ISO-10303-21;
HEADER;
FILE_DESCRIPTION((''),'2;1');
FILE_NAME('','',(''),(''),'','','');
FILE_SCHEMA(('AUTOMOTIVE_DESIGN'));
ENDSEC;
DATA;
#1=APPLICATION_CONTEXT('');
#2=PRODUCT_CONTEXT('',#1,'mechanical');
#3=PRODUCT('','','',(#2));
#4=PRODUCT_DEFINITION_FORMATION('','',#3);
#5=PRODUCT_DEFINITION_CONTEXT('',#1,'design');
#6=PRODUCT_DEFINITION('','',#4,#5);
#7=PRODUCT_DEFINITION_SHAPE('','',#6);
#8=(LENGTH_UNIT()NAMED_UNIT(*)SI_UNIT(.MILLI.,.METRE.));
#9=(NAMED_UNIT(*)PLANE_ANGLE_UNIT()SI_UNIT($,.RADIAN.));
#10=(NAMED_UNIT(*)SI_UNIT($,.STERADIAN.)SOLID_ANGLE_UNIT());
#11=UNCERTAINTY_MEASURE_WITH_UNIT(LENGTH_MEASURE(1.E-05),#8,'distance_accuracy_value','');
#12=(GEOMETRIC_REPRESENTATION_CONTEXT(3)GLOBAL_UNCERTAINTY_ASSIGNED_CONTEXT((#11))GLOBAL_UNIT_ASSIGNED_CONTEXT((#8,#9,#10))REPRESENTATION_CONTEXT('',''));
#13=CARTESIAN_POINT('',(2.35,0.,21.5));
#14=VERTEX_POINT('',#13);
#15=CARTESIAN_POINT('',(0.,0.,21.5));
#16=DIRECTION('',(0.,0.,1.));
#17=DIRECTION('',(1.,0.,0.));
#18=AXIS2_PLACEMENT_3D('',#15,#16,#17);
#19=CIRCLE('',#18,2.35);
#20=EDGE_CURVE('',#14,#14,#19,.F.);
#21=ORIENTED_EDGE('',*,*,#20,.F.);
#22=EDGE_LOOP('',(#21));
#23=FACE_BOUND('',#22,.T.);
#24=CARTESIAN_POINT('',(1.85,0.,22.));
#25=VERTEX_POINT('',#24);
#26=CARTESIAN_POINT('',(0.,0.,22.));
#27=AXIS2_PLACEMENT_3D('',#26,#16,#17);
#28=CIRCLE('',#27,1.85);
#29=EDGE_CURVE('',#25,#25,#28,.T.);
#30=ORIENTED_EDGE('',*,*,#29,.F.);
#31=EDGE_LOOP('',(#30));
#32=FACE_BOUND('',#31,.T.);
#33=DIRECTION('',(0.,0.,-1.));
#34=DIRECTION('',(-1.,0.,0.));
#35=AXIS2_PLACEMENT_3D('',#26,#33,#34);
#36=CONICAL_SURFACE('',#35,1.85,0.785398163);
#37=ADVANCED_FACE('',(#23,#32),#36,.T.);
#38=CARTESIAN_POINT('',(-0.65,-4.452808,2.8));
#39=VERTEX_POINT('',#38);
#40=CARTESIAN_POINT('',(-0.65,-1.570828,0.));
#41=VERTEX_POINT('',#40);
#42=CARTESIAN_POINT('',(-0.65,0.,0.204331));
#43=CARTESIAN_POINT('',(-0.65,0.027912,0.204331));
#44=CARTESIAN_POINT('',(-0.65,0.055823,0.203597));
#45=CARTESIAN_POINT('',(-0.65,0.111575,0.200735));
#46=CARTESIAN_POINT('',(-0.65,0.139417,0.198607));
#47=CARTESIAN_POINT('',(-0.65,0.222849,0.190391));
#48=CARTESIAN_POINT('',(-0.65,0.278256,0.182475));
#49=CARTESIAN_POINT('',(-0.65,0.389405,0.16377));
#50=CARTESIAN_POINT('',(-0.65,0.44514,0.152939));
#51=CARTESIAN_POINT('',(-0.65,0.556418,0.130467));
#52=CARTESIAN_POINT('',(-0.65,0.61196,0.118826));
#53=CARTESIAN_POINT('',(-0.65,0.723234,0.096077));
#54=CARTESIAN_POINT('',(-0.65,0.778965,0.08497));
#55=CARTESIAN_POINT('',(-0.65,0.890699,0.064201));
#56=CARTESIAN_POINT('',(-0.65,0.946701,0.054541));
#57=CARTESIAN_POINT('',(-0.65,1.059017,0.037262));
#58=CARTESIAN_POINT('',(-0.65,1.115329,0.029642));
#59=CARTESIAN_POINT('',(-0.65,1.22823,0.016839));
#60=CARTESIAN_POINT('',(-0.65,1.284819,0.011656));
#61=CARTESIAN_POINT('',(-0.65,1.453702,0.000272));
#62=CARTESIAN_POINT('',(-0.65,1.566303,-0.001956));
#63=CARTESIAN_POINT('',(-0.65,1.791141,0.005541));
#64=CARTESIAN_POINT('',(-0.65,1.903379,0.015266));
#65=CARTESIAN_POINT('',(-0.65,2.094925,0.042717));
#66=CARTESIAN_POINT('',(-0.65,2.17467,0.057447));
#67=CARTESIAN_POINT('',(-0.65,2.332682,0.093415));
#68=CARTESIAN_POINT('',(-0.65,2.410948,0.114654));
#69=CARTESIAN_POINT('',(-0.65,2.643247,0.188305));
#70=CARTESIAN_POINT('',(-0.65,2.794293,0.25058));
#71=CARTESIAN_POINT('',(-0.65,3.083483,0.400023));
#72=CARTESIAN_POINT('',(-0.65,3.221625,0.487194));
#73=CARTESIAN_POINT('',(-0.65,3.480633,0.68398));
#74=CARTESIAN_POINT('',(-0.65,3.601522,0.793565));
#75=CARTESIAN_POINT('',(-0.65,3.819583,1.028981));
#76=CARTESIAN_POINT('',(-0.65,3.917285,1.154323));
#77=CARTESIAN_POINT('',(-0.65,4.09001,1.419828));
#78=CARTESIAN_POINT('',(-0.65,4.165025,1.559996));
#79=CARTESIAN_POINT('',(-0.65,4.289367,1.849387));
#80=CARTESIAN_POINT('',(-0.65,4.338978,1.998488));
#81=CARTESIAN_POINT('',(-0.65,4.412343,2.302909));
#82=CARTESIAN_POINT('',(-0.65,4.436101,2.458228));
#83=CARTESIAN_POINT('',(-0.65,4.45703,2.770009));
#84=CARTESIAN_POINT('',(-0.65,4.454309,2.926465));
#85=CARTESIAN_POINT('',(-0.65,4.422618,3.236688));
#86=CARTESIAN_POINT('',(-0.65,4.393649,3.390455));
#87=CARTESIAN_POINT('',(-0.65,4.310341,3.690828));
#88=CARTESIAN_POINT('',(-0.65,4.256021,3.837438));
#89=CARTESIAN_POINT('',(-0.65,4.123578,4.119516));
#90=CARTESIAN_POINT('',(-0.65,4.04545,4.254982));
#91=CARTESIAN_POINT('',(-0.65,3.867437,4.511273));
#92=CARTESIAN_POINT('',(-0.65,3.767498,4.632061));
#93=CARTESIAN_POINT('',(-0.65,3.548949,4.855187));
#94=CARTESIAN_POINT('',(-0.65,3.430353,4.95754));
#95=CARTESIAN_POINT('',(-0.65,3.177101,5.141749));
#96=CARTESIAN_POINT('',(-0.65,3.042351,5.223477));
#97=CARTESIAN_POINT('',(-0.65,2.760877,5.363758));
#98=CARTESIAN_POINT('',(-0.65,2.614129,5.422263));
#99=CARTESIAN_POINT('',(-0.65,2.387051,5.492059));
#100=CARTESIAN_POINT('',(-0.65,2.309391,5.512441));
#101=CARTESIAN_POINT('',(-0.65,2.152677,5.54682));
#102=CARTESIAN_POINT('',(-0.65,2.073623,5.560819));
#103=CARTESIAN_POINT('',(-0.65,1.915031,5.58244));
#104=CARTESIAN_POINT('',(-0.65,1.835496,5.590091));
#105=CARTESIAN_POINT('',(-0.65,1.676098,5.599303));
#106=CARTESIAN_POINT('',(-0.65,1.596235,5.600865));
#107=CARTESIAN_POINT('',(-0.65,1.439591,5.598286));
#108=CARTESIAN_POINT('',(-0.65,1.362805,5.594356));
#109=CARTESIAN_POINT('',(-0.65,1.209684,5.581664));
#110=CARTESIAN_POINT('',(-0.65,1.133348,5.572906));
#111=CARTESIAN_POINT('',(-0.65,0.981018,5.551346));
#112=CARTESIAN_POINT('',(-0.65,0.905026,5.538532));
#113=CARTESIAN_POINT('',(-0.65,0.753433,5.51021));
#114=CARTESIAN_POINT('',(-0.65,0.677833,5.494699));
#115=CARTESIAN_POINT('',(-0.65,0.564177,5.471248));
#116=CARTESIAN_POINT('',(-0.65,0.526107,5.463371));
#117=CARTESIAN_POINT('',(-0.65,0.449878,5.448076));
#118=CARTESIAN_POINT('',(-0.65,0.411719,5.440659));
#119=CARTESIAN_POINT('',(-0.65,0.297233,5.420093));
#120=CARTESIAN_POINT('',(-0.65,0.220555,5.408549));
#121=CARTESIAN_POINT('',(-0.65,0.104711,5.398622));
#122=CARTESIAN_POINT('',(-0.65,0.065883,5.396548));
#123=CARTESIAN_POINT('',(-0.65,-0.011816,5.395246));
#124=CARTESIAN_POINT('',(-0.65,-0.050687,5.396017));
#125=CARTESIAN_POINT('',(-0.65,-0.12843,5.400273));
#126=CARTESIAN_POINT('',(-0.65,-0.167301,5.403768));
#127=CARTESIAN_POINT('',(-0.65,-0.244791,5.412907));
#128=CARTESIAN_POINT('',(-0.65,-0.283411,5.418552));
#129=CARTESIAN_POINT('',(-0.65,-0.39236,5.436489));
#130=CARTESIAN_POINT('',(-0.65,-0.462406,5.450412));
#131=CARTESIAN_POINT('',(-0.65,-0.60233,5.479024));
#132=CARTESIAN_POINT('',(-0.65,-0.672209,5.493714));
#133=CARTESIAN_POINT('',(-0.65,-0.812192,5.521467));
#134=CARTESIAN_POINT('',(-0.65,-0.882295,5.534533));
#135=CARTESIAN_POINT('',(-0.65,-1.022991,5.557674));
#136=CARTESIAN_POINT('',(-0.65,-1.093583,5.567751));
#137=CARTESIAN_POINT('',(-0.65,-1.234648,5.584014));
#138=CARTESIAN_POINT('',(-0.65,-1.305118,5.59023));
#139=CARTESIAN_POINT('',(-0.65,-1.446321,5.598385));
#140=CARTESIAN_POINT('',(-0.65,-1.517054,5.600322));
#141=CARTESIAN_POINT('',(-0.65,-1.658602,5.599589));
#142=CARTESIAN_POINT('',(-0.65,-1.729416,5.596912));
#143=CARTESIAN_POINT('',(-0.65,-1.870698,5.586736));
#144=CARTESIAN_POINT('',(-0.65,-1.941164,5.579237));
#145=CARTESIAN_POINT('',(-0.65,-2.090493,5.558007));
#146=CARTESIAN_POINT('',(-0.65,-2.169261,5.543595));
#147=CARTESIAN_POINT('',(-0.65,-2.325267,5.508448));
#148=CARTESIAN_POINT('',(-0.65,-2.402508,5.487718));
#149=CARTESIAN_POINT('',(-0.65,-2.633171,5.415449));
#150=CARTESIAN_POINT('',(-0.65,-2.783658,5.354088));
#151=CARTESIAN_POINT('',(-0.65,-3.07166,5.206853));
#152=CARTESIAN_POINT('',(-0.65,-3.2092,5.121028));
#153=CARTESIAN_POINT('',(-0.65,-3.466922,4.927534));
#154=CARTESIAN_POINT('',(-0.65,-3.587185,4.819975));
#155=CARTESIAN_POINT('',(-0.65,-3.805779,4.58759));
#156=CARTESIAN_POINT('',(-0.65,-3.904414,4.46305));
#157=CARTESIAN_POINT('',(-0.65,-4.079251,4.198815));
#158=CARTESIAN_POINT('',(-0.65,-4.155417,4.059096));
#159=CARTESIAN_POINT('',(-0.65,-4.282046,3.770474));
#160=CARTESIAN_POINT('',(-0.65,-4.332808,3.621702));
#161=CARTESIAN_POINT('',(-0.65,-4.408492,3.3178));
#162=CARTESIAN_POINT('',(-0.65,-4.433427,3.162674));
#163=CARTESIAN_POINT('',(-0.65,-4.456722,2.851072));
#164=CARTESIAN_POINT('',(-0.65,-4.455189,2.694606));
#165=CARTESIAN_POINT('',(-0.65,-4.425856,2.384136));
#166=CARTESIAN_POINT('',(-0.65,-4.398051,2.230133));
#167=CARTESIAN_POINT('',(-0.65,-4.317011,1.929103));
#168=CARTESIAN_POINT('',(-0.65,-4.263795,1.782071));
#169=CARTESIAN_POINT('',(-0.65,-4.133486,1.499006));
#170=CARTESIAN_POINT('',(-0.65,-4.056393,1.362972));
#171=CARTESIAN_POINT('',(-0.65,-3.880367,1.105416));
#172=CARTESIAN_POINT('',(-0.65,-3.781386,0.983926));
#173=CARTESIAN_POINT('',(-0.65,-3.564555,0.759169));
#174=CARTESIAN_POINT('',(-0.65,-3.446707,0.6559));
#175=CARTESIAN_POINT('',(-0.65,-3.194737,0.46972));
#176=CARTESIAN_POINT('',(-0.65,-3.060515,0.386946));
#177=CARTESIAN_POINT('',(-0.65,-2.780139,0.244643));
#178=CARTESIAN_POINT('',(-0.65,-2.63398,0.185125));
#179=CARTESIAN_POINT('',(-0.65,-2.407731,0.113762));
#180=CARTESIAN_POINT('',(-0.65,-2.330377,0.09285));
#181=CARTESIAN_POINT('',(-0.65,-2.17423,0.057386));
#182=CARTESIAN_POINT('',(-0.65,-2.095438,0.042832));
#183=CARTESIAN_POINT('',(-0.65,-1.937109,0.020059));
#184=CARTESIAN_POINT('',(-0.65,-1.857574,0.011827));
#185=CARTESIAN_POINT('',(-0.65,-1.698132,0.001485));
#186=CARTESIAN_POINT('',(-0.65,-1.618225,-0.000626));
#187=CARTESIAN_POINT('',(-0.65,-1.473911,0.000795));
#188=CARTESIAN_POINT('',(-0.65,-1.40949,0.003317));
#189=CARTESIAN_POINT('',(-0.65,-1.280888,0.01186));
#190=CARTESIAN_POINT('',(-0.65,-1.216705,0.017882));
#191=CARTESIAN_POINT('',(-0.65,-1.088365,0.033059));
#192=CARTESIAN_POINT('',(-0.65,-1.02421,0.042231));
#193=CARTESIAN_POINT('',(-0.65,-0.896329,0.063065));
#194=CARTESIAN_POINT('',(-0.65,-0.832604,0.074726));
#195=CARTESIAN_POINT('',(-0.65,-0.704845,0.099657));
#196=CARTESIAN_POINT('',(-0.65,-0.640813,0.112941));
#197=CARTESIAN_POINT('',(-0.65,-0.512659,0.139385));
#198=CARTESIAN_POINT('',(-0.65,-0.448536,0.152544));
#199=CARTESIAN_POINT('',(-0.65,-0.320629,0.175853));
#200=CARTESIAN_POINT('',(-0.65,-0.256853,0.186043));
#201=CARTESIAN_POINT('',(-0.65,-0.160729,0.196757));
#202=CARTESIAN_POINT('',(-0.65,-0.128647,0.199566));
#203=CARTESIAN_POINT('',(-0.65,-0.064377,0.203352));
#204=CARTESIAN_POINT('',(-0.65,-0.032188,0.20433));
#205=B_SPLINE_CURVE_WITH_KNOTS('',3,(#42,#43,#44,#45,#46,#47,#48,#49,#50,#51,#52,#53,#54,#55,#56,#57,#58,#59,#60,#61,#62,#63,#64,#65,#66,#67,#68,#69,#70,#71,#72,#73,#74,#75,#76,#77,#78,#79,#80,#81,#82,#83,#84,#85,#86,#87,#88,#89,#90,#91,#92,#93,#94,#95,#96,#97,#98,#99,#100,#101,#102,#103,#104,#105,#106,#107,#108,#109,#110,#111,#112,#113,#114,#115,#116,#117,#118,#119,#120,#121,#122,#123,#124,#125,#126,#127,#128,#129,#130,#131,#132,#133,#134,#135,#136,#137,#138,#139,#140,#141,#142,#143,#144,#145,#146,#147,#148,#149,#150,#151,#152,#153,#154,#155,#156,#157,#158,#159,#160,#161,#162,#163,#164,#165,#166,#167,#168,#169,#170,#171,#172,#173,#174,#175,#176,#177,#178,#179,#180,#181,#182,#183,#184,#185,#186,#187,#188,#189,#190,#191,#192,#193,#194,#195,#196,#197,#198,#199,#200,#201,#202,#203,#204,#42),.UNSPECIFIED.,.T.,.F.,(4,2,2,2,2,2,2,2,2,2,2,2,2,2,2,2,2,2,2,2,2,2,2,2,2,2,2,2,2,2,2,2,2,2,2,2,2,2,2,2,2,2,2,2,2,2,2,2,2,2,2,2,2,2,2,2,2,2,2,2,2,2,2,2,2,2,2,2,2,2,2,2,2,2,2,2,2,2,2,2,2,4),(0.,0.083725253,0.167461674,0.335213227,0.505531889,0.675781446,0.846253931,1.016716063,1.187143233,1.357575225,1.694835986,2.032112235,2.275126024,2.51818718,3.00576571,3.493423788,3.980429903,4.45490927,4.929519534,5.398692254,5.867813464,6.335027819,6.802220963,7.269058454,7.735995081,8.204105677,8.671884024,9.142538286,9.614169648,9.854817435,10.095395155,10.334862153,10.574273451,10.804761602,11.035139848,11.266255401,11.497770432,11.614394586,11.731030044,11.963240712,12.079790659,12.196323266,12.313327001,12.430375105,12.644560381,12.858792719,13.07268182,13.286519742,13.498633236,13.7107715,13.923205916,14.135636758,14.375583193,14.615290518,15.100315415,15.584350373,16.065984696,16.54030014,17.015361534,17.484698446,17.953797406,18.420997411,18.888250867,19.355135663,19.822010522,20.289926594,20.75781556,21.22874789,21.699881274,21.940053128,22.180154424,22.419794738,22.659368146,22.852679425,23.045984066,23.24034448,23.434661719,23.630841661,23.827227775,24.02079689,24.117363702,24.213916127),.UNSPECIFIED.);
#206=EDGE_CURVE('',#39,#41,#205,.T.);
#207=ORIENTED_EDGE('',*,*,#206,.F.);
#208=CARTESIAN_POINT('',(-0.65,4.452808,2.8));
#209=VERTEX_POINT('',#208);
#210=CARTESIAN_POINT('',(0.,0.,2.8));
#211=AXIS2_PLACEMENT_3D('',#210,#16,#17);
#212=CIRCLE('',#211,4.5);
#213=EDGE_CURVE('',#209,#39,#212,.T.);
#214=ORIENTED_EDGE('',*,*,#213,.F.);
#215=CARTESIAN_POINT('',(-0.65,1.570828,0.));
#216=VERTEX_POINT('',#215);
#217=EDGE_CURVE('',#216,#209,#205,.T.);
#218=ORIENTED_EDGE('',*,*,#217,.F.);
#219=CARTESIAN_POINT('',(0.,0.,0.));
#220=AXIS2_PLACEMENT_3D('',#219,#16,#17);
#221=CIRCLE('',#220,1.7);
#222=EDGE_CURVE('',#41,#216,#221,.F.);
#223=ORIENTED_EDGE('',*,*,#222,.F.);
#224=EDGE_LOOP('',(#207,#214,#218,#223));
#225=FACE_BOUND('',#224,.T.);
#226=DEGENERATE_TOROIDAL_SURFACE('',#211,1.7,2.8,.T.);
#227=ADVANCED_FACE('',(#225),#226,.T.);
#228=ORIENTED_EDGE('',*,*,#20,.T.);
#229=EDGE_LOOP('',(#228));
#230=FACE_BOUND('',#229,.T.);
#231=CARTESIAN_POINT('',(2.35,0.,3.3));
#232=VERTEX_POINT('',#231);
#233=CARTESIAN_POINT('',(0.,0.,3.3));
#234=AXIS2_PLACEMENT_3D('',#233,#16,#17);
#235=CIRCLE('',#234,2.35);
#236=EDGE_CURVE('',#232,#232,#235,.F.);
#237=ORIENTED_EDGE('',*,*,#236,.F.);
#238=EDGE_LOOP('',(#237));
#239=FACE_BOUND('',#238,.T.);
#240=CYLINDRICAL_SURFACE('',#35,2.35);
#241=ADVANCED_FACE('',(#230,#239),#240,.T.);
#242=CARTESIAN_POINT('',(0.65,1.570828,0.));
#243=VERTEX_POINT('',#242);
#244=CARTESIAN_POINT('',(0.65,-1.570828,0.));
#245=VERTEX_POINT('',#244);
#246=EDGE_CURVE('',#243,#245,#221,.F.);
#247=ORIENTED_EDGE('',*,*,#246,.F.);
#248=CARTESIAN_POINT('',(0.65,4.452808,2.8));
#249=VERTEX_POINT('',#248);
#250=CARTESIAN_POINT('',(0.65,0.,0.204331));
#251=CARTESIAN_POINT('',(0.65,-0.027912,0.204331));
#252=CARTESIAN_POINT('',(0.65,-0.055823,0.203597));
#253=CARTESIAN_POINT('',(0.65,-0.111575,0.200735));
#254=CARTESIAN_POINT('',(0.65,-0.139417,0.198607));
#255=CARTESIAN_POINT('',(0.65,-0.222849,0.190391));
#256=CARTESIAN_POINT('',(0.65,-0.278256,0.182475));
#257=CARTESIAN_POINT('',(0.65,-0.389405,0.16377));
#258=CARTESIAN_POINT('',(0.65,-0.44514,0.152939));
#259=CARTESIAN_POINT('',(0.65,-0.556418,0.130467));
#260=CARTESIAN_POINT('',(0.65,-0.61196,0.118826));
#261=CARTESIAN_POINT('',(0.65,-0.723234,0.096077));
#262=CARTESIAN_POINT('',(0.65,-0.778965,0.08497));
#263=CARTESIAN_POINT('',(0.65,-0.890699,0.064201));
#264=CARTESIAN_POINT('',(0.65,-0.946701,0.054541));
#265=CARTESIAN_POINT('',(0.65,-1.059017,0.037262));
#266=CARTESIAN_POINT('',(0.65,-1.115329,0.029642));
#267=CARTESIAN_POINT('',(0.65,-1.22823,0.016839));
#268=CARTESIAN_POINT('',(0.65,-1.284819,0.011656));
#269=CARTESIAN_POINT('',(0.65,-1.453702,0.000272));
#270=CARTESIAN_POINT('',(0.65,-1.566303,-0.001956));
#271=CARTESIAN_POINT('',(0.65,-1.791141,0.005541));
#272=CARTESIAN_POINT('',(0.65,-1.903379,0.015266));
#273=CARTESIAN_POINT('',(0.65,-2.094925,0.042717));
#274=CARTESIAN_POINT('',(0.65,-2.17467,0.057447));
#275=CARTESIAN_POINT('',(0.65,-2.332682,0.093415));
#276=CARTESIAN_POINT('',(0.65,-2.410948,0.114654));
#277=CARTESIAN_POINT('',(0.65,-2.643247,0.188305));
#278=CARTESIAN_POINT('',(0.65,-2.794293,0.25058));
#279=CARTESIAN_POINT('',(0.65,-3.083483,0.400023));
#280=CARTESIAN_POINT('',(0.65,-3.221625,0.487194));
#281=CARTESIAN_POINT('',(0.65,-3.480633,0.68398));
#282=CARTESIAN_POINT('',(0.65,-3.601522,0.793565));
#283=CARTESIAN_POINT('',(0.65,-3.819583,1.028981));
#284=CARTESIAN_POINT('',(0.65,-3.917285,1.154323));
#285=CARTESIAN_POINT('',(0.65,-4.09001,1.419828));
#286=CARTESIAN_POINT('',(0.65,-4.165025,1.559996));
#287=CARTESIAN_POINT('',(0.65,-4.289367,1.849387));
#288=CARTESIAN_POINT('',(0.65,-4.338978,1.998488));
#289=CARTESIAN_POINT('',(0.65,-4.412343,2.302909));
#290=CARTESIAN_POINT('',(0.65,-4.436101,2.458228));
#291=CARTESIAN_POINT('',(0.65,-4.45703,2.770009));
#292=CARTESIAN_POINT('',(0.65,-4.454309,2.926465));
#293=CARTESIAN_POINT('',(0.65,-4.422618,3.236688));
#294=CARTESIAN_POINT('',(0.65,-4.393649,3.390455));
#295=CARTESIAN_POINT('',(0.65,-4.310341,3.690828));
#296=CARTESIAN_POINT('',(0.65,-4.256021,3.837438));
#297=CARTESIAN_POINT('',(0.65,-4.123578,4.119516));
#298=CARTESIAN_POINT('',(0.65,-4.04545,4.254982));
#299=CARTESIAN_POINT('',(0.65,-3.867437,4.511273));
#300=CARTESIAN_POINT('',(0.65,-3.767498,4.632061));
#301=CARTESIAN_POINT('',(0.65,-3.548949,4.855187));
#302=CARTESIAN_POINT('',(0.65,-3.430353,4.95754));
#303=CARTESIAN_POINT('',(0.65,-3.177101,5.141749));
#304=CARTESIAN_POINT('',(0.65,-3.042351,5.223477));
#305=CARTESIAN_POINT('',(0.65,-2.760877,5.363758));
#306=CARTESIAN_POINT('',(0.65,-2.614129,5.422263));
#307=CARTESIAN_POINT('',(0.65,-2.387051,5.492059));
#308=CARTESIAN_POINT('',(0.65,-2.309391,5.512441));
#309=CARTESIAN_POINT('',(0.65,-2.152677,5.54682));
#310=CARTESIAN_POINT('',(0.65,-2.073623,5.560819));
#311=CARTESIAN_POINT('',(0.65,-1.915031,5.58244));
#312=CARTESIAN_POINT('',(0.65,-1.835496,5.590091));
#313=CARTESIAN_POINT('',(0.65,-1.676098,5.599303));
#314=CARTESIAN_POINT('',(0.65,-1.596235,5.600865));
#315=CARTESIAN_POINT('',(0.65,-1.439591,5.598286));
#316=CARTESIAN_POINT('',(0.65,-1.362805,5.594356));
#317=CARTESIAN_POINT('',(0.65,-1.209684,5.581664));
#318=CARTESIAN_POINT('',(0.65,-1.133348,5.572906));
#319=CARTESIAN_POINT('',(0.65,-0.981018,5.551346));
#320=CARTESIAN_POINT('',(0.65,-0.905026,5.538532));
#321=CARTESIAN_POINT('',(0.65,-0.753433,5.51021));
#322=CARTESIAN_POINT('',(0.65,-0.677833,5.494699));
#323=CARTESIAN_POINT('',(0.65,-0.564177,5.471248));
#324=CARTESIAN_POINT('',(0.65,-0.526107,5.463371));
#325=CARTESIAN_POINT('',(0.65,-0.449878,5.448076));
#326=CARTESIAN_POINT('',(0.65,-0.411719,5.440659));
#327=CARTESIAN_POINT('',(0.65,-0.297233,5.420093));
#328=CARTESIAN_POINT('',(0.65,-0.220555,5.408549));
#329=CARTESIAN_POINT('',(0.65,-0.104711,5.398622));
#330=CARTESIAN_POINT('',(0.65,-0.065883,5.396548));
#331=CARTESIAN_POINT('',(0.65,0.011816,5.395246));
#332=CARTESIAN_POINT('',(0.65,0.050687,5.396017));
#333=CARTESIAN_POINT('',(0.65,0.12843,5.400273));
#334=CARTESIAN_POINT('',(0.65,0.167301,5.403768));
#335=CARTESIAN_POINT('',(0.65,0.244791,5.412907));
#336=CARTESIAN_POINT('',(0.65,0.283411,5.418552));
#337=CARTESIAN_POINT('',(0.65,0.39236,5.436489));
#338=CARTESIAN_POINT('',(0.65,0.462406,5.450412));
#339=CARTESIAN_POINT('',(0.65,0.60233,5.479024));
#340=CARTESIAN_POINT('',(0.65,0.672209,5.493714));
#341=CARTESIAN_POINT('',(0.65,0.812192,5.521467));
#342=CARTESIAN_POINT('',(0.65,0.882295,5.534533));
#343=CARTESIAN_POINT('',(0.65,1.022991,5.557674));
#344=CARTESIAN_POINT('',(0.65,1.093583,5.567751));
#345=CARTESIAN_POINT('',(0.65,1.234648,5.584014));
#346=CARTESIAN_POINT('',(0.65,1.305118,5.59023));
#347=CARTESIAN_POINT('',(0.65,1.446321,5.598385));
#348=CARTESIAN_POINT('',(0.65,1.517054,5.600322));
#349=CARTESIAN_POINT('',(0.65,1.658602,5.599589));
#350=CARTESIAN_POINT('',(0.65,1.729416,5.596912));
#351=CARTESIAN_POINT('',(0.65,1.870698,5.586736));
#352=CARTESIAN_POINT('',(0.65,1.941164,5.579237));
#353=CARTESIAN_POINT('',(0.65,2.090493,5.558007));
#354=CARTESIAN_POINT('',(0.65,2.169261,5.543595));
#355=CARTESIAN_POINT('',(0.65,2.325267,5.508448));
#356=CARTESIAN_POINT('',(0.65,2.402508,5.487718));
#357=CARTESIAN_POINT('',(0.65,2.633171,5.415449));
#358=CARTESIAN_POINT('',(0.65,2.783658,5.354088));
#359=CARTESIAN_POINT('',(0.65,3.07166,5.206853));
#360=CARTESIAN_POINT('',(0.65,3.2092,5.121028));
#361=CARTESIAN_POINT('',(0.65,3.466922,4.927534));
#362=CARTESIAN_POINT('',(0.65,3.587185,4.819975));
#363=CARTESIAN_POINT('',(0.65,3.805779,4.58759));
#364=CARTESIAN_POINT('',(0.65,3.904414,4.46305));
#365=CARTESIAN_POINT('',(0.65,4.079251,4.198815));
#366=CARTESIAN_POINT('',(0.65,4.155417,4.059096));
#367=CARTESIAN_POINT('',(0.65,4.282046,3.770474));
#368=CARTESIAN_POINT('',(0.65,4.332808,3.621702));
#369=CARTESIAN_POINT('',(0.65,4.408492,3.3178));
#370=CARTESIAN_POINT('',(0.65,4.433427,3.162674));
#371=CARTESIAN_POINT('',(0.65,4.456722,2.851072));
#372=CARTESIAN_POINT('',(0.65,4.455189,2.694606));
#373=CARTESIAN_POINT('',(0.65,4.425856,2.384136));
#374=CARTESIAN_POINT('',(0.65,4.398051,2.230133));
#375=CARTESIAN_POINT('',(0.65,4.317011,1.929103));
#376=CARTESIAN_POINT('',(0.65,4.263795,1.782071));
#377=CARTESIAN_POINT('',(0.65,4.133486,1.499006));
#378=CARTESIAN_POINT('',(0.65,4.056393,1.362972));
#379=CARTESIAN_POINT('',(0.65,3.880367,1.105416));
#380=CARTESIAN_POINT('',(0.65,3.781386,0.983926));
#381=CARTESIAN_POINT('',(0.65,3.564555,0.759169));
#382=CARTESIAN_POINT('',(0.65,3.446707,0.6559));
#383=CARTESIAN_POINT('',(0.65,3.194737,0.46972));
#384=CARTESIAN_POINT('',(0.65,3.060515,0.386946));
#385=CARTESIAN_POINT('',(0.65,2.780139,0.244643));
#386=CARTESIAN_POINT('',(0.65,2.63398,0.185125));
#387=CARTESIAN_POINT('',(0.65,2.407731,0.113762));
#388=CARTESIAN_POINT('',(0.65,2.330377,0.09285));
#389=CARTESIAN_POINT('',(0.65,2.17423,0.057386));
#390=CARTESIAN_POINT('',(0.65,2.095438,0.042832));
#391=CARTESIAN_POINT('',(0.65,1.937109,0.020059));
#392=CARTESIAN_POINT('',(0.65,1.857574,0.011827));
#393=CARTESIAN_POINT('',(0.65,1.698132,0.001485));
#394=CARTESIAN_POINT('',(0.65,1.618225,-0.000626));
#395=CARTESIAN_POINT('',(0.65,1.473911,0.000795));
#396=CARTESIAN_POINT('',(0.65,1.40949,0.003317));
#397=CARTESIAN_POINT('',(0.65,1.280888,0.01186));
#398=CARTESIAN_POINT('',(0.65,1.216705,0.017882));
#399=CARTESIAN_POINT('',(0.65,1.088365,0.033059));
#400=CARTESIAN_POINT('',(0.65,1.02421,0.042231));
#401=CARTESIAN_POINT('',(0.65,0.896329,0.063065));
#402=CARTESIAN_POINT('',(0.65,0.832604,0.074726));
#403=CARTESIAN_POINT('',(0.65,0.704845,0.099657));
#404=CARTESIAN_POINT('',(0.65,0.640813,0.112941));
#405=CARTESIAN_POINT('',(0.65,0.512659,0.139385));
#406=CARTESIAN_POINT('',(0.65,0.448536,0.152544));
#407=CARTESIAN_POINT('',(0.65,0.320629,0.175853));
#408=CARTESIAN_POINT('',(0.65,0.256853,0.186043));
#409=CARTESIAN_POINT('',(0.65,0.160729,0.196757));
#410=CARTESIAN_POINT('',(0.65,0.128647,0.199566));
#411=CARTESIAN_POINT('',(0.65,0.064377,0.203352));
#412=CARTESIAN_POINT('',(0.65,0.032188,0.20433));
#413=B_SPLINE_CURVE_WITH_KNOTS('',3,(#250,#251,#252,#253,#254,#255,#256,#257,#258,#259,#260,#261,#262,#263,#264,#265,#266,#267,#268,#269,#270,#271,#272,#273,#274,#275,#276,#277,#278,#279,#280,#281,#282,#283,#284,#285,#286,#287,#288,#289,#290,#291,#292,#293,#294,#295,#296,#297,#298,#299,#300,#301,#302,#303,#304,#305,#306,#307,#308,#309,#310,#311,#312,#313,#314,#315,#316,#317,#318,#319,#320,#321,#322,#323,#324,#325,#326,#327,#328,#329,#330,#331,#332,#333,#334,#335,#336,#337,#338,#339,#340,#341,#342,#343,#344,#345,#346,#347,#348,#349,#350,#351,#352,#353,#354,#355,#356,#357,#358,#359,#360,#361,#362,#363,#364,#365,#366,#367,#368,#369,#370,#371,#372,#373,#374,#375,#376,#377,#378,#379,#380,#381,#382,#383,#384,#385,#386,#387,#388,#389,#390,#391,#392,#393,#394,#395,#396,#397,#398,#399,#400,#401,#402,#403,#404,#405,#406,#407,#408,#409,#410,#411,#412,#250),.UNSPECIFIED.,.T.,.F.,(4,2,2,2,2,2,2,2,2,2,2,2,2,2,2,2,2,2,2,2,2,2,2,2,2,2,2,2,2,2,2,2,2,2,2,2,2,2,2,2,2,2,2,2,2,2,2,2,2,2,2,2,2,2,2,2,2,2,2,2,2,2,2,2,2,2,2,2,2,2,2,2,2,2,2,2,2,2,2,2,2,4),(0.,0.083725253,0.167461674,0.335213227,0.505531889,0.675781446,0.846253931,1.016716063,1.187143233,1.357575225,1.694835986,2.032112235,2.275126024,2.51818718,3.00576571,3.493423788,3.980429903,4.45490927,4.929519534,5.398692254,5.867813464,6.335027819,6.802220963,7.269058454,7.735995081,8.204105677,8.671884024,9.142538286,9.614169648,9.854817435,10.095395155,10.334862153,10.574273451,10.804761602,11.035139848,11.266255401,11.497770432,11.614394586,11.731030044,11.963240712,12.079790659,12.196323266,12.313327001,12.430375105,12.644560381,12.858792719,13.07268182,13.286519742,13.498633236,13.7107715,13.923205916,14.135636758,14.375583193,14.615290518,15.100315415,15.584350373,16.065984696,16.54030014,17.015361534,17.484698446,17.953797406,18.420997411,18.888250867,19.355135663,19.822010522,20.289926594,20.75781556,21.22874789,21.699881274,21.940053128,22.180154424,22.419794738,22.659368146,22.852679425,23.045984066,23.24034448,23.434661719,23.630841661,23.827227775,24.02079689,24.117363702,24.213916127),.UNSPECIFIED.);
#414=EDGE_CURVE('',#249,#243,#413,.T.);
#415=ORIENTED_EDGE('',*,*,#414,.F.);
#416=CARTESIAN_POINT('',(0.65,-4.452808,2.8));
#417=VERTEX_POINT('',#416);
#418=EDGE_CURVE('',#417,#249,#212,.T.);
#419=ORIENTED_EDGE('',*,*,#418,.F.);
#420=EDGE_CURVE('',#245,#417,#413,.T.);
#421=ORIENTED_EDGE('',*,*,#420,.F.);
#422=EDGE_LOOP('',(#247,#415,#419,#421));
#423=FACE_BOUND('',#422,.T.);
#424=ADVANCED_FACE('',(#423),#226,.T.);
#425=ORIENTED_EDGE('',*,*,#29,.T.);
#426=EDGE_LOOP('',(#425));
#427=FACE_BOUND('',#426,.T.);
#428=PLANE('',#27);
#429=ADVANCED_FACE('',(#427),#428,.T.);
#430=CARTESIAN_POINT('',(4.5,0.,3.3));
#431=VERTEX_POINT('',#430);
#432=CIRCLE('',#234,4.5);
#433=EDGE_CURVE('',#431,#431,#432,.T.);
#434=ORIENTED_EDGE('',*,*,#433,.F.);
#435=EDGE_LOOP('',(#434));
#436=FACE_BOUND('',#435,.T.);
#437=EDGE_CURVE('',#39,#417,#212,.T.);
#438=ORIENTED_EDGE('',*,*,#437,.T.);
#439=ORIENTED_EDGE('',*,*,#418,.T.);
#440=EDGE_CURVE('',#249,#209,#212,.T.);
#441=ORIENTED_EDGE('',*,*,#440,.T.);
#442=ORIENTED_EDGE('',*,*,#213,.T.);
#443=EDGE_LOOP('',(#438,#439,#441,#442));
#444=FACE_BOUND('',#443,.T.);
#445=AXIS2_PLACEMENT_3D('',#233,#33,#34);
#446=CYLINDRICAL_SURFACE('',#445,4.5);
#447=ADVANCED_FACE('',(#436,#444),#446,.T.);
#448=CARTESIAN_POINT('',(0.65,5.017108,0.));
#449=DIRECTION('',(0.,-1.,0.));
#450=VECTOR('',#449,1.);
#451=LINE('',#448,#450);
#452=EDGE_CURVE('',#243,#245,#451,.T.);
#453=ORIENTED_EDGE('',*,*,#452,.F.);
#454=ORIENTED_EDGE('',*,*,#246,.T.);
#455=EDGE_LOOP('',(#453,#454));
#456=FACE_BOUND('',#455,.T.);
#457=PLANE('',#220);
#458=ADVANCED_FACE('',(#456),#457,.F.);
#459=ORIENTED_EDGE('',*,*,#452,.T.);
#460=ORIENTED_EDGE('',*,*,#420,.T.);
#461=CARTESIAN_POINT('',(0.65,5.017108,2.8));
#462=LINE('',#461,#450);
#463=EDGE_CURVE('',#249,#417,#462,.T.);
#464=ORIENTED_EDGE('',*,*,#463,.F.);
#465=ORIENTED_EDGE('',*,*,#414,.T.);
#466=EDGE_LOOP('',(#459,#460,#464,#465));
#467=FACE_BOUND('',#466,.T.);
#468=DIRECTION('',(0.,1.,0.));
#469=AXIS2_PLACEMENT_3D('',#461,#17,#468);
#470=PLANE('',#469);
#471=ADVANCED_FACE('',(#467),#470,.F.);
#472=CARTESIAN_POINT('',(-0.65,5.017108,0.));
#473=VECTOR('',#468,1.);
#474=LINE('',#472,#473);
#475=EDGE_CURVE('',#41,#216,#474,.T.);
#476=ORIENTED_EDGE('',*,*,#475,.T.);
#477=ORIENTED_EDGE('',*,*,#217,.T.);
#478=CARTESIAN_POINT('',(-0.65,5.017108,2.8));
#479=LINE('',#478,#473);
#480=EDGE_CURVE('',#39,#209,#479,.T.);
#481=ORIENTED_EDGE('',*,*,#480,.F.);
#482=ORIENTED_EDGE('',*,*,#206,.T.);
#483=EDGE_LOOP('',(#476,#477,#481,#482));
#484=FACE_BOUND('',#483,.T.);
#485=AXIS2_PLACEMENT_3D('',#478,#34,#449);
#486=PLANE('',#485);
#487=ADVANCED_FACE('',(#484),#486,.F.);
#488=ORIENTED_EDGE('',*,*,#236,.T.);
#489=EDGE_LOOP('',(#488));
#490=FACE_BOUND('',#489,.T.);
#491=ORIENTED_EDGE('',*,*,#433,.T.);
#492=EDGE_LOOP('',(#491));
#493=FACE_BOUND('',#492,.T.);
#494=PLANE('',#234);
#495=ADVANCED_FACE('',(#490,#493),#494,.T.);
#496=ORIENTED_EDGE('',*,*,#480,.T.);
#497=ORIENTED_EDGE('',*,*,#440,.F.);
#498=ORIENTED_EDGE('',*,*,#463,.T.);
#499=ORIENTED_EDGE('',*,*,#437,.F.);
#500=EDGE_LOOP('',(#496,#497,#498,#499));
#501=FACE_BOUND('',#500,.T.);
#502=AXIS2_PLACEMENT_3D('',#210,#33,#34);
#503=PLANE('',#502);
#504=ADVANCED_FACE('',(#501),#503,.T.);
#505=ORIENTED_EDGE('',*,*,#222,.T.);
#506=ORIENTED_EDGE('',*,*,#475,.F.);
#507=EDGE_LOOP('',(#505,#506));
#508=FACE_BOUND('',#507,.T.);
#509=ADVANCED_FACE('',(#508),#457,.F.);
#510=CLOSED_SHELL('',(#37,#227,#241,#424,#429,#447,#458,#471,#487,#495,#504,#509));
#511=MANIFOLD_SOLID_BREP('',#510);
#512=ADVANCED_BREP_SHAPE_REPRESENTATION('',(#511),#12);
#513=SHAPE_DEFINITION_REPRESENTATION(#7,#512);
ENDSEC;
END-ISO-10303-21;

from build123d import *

# Parameters (mm, degrees)
ESBO_O1_R                = 4.5
RESSALTO_EXTRUS_O1_DEPTH = 3.3
ESBO_O2_R                = 2.35
RESSALTO_EXTRUS_O2_DEPTH = 22
FILETE1_R                = 2.8
ESBO_O3_W                = 1.3
ESBO_O3_H                = 10.03421546
CORTE_EXTRUS_O1_DEPTH    = 2.8
CHANFRO1_SIZE            = 0.5


with BuildPart() as part:
    # Esboço1 → Ressalto-extrusão1 (new body)
    with BuildSketch(Plane.XY):
        Circle(ESBO_O1_R)
    extrude(amount=RESSALTO_EXTRUS_O1_DEPTH)

    # Esboço2 → Ressalto-extrusão2 (add)
    with BuildSketch(Plane.XY):
        Circle(ESBO_O2_R)
    extrude(amount=RESSALTO_EXTRUS_O2_DEPTH)

    # Filete1
    filete1_edges = [part.edges().sort_by_distance(p)[0] for p in [
        (-4.5, 0, 0),
    ]]
    fillet(filete1_edges, radius=FILETE1_R)

    # Esboço3 → Corte-extrusão1 (cut)
    with BuildSketch(Plane(origin=(0, 0, 0), x_dir=(-1, 0, 0), z_dir=(0, 0, -1))):
        Rectangle(ESBO_O3_W, ESBO_O3_H)
    extrude(amount=-CORTE_EXTRUS_O1_DEPTH, mode=Mode.SUBTRACT)

    # Chanfro1
    chanfro1_edges = [part.edges().sort_by_distance(p)[0] for p in [
        (-2.35, 0, 22),
    ]]
    chamfer(chanfro1_edges, length=CHANFRO1_SIZE)


solid = part.part
